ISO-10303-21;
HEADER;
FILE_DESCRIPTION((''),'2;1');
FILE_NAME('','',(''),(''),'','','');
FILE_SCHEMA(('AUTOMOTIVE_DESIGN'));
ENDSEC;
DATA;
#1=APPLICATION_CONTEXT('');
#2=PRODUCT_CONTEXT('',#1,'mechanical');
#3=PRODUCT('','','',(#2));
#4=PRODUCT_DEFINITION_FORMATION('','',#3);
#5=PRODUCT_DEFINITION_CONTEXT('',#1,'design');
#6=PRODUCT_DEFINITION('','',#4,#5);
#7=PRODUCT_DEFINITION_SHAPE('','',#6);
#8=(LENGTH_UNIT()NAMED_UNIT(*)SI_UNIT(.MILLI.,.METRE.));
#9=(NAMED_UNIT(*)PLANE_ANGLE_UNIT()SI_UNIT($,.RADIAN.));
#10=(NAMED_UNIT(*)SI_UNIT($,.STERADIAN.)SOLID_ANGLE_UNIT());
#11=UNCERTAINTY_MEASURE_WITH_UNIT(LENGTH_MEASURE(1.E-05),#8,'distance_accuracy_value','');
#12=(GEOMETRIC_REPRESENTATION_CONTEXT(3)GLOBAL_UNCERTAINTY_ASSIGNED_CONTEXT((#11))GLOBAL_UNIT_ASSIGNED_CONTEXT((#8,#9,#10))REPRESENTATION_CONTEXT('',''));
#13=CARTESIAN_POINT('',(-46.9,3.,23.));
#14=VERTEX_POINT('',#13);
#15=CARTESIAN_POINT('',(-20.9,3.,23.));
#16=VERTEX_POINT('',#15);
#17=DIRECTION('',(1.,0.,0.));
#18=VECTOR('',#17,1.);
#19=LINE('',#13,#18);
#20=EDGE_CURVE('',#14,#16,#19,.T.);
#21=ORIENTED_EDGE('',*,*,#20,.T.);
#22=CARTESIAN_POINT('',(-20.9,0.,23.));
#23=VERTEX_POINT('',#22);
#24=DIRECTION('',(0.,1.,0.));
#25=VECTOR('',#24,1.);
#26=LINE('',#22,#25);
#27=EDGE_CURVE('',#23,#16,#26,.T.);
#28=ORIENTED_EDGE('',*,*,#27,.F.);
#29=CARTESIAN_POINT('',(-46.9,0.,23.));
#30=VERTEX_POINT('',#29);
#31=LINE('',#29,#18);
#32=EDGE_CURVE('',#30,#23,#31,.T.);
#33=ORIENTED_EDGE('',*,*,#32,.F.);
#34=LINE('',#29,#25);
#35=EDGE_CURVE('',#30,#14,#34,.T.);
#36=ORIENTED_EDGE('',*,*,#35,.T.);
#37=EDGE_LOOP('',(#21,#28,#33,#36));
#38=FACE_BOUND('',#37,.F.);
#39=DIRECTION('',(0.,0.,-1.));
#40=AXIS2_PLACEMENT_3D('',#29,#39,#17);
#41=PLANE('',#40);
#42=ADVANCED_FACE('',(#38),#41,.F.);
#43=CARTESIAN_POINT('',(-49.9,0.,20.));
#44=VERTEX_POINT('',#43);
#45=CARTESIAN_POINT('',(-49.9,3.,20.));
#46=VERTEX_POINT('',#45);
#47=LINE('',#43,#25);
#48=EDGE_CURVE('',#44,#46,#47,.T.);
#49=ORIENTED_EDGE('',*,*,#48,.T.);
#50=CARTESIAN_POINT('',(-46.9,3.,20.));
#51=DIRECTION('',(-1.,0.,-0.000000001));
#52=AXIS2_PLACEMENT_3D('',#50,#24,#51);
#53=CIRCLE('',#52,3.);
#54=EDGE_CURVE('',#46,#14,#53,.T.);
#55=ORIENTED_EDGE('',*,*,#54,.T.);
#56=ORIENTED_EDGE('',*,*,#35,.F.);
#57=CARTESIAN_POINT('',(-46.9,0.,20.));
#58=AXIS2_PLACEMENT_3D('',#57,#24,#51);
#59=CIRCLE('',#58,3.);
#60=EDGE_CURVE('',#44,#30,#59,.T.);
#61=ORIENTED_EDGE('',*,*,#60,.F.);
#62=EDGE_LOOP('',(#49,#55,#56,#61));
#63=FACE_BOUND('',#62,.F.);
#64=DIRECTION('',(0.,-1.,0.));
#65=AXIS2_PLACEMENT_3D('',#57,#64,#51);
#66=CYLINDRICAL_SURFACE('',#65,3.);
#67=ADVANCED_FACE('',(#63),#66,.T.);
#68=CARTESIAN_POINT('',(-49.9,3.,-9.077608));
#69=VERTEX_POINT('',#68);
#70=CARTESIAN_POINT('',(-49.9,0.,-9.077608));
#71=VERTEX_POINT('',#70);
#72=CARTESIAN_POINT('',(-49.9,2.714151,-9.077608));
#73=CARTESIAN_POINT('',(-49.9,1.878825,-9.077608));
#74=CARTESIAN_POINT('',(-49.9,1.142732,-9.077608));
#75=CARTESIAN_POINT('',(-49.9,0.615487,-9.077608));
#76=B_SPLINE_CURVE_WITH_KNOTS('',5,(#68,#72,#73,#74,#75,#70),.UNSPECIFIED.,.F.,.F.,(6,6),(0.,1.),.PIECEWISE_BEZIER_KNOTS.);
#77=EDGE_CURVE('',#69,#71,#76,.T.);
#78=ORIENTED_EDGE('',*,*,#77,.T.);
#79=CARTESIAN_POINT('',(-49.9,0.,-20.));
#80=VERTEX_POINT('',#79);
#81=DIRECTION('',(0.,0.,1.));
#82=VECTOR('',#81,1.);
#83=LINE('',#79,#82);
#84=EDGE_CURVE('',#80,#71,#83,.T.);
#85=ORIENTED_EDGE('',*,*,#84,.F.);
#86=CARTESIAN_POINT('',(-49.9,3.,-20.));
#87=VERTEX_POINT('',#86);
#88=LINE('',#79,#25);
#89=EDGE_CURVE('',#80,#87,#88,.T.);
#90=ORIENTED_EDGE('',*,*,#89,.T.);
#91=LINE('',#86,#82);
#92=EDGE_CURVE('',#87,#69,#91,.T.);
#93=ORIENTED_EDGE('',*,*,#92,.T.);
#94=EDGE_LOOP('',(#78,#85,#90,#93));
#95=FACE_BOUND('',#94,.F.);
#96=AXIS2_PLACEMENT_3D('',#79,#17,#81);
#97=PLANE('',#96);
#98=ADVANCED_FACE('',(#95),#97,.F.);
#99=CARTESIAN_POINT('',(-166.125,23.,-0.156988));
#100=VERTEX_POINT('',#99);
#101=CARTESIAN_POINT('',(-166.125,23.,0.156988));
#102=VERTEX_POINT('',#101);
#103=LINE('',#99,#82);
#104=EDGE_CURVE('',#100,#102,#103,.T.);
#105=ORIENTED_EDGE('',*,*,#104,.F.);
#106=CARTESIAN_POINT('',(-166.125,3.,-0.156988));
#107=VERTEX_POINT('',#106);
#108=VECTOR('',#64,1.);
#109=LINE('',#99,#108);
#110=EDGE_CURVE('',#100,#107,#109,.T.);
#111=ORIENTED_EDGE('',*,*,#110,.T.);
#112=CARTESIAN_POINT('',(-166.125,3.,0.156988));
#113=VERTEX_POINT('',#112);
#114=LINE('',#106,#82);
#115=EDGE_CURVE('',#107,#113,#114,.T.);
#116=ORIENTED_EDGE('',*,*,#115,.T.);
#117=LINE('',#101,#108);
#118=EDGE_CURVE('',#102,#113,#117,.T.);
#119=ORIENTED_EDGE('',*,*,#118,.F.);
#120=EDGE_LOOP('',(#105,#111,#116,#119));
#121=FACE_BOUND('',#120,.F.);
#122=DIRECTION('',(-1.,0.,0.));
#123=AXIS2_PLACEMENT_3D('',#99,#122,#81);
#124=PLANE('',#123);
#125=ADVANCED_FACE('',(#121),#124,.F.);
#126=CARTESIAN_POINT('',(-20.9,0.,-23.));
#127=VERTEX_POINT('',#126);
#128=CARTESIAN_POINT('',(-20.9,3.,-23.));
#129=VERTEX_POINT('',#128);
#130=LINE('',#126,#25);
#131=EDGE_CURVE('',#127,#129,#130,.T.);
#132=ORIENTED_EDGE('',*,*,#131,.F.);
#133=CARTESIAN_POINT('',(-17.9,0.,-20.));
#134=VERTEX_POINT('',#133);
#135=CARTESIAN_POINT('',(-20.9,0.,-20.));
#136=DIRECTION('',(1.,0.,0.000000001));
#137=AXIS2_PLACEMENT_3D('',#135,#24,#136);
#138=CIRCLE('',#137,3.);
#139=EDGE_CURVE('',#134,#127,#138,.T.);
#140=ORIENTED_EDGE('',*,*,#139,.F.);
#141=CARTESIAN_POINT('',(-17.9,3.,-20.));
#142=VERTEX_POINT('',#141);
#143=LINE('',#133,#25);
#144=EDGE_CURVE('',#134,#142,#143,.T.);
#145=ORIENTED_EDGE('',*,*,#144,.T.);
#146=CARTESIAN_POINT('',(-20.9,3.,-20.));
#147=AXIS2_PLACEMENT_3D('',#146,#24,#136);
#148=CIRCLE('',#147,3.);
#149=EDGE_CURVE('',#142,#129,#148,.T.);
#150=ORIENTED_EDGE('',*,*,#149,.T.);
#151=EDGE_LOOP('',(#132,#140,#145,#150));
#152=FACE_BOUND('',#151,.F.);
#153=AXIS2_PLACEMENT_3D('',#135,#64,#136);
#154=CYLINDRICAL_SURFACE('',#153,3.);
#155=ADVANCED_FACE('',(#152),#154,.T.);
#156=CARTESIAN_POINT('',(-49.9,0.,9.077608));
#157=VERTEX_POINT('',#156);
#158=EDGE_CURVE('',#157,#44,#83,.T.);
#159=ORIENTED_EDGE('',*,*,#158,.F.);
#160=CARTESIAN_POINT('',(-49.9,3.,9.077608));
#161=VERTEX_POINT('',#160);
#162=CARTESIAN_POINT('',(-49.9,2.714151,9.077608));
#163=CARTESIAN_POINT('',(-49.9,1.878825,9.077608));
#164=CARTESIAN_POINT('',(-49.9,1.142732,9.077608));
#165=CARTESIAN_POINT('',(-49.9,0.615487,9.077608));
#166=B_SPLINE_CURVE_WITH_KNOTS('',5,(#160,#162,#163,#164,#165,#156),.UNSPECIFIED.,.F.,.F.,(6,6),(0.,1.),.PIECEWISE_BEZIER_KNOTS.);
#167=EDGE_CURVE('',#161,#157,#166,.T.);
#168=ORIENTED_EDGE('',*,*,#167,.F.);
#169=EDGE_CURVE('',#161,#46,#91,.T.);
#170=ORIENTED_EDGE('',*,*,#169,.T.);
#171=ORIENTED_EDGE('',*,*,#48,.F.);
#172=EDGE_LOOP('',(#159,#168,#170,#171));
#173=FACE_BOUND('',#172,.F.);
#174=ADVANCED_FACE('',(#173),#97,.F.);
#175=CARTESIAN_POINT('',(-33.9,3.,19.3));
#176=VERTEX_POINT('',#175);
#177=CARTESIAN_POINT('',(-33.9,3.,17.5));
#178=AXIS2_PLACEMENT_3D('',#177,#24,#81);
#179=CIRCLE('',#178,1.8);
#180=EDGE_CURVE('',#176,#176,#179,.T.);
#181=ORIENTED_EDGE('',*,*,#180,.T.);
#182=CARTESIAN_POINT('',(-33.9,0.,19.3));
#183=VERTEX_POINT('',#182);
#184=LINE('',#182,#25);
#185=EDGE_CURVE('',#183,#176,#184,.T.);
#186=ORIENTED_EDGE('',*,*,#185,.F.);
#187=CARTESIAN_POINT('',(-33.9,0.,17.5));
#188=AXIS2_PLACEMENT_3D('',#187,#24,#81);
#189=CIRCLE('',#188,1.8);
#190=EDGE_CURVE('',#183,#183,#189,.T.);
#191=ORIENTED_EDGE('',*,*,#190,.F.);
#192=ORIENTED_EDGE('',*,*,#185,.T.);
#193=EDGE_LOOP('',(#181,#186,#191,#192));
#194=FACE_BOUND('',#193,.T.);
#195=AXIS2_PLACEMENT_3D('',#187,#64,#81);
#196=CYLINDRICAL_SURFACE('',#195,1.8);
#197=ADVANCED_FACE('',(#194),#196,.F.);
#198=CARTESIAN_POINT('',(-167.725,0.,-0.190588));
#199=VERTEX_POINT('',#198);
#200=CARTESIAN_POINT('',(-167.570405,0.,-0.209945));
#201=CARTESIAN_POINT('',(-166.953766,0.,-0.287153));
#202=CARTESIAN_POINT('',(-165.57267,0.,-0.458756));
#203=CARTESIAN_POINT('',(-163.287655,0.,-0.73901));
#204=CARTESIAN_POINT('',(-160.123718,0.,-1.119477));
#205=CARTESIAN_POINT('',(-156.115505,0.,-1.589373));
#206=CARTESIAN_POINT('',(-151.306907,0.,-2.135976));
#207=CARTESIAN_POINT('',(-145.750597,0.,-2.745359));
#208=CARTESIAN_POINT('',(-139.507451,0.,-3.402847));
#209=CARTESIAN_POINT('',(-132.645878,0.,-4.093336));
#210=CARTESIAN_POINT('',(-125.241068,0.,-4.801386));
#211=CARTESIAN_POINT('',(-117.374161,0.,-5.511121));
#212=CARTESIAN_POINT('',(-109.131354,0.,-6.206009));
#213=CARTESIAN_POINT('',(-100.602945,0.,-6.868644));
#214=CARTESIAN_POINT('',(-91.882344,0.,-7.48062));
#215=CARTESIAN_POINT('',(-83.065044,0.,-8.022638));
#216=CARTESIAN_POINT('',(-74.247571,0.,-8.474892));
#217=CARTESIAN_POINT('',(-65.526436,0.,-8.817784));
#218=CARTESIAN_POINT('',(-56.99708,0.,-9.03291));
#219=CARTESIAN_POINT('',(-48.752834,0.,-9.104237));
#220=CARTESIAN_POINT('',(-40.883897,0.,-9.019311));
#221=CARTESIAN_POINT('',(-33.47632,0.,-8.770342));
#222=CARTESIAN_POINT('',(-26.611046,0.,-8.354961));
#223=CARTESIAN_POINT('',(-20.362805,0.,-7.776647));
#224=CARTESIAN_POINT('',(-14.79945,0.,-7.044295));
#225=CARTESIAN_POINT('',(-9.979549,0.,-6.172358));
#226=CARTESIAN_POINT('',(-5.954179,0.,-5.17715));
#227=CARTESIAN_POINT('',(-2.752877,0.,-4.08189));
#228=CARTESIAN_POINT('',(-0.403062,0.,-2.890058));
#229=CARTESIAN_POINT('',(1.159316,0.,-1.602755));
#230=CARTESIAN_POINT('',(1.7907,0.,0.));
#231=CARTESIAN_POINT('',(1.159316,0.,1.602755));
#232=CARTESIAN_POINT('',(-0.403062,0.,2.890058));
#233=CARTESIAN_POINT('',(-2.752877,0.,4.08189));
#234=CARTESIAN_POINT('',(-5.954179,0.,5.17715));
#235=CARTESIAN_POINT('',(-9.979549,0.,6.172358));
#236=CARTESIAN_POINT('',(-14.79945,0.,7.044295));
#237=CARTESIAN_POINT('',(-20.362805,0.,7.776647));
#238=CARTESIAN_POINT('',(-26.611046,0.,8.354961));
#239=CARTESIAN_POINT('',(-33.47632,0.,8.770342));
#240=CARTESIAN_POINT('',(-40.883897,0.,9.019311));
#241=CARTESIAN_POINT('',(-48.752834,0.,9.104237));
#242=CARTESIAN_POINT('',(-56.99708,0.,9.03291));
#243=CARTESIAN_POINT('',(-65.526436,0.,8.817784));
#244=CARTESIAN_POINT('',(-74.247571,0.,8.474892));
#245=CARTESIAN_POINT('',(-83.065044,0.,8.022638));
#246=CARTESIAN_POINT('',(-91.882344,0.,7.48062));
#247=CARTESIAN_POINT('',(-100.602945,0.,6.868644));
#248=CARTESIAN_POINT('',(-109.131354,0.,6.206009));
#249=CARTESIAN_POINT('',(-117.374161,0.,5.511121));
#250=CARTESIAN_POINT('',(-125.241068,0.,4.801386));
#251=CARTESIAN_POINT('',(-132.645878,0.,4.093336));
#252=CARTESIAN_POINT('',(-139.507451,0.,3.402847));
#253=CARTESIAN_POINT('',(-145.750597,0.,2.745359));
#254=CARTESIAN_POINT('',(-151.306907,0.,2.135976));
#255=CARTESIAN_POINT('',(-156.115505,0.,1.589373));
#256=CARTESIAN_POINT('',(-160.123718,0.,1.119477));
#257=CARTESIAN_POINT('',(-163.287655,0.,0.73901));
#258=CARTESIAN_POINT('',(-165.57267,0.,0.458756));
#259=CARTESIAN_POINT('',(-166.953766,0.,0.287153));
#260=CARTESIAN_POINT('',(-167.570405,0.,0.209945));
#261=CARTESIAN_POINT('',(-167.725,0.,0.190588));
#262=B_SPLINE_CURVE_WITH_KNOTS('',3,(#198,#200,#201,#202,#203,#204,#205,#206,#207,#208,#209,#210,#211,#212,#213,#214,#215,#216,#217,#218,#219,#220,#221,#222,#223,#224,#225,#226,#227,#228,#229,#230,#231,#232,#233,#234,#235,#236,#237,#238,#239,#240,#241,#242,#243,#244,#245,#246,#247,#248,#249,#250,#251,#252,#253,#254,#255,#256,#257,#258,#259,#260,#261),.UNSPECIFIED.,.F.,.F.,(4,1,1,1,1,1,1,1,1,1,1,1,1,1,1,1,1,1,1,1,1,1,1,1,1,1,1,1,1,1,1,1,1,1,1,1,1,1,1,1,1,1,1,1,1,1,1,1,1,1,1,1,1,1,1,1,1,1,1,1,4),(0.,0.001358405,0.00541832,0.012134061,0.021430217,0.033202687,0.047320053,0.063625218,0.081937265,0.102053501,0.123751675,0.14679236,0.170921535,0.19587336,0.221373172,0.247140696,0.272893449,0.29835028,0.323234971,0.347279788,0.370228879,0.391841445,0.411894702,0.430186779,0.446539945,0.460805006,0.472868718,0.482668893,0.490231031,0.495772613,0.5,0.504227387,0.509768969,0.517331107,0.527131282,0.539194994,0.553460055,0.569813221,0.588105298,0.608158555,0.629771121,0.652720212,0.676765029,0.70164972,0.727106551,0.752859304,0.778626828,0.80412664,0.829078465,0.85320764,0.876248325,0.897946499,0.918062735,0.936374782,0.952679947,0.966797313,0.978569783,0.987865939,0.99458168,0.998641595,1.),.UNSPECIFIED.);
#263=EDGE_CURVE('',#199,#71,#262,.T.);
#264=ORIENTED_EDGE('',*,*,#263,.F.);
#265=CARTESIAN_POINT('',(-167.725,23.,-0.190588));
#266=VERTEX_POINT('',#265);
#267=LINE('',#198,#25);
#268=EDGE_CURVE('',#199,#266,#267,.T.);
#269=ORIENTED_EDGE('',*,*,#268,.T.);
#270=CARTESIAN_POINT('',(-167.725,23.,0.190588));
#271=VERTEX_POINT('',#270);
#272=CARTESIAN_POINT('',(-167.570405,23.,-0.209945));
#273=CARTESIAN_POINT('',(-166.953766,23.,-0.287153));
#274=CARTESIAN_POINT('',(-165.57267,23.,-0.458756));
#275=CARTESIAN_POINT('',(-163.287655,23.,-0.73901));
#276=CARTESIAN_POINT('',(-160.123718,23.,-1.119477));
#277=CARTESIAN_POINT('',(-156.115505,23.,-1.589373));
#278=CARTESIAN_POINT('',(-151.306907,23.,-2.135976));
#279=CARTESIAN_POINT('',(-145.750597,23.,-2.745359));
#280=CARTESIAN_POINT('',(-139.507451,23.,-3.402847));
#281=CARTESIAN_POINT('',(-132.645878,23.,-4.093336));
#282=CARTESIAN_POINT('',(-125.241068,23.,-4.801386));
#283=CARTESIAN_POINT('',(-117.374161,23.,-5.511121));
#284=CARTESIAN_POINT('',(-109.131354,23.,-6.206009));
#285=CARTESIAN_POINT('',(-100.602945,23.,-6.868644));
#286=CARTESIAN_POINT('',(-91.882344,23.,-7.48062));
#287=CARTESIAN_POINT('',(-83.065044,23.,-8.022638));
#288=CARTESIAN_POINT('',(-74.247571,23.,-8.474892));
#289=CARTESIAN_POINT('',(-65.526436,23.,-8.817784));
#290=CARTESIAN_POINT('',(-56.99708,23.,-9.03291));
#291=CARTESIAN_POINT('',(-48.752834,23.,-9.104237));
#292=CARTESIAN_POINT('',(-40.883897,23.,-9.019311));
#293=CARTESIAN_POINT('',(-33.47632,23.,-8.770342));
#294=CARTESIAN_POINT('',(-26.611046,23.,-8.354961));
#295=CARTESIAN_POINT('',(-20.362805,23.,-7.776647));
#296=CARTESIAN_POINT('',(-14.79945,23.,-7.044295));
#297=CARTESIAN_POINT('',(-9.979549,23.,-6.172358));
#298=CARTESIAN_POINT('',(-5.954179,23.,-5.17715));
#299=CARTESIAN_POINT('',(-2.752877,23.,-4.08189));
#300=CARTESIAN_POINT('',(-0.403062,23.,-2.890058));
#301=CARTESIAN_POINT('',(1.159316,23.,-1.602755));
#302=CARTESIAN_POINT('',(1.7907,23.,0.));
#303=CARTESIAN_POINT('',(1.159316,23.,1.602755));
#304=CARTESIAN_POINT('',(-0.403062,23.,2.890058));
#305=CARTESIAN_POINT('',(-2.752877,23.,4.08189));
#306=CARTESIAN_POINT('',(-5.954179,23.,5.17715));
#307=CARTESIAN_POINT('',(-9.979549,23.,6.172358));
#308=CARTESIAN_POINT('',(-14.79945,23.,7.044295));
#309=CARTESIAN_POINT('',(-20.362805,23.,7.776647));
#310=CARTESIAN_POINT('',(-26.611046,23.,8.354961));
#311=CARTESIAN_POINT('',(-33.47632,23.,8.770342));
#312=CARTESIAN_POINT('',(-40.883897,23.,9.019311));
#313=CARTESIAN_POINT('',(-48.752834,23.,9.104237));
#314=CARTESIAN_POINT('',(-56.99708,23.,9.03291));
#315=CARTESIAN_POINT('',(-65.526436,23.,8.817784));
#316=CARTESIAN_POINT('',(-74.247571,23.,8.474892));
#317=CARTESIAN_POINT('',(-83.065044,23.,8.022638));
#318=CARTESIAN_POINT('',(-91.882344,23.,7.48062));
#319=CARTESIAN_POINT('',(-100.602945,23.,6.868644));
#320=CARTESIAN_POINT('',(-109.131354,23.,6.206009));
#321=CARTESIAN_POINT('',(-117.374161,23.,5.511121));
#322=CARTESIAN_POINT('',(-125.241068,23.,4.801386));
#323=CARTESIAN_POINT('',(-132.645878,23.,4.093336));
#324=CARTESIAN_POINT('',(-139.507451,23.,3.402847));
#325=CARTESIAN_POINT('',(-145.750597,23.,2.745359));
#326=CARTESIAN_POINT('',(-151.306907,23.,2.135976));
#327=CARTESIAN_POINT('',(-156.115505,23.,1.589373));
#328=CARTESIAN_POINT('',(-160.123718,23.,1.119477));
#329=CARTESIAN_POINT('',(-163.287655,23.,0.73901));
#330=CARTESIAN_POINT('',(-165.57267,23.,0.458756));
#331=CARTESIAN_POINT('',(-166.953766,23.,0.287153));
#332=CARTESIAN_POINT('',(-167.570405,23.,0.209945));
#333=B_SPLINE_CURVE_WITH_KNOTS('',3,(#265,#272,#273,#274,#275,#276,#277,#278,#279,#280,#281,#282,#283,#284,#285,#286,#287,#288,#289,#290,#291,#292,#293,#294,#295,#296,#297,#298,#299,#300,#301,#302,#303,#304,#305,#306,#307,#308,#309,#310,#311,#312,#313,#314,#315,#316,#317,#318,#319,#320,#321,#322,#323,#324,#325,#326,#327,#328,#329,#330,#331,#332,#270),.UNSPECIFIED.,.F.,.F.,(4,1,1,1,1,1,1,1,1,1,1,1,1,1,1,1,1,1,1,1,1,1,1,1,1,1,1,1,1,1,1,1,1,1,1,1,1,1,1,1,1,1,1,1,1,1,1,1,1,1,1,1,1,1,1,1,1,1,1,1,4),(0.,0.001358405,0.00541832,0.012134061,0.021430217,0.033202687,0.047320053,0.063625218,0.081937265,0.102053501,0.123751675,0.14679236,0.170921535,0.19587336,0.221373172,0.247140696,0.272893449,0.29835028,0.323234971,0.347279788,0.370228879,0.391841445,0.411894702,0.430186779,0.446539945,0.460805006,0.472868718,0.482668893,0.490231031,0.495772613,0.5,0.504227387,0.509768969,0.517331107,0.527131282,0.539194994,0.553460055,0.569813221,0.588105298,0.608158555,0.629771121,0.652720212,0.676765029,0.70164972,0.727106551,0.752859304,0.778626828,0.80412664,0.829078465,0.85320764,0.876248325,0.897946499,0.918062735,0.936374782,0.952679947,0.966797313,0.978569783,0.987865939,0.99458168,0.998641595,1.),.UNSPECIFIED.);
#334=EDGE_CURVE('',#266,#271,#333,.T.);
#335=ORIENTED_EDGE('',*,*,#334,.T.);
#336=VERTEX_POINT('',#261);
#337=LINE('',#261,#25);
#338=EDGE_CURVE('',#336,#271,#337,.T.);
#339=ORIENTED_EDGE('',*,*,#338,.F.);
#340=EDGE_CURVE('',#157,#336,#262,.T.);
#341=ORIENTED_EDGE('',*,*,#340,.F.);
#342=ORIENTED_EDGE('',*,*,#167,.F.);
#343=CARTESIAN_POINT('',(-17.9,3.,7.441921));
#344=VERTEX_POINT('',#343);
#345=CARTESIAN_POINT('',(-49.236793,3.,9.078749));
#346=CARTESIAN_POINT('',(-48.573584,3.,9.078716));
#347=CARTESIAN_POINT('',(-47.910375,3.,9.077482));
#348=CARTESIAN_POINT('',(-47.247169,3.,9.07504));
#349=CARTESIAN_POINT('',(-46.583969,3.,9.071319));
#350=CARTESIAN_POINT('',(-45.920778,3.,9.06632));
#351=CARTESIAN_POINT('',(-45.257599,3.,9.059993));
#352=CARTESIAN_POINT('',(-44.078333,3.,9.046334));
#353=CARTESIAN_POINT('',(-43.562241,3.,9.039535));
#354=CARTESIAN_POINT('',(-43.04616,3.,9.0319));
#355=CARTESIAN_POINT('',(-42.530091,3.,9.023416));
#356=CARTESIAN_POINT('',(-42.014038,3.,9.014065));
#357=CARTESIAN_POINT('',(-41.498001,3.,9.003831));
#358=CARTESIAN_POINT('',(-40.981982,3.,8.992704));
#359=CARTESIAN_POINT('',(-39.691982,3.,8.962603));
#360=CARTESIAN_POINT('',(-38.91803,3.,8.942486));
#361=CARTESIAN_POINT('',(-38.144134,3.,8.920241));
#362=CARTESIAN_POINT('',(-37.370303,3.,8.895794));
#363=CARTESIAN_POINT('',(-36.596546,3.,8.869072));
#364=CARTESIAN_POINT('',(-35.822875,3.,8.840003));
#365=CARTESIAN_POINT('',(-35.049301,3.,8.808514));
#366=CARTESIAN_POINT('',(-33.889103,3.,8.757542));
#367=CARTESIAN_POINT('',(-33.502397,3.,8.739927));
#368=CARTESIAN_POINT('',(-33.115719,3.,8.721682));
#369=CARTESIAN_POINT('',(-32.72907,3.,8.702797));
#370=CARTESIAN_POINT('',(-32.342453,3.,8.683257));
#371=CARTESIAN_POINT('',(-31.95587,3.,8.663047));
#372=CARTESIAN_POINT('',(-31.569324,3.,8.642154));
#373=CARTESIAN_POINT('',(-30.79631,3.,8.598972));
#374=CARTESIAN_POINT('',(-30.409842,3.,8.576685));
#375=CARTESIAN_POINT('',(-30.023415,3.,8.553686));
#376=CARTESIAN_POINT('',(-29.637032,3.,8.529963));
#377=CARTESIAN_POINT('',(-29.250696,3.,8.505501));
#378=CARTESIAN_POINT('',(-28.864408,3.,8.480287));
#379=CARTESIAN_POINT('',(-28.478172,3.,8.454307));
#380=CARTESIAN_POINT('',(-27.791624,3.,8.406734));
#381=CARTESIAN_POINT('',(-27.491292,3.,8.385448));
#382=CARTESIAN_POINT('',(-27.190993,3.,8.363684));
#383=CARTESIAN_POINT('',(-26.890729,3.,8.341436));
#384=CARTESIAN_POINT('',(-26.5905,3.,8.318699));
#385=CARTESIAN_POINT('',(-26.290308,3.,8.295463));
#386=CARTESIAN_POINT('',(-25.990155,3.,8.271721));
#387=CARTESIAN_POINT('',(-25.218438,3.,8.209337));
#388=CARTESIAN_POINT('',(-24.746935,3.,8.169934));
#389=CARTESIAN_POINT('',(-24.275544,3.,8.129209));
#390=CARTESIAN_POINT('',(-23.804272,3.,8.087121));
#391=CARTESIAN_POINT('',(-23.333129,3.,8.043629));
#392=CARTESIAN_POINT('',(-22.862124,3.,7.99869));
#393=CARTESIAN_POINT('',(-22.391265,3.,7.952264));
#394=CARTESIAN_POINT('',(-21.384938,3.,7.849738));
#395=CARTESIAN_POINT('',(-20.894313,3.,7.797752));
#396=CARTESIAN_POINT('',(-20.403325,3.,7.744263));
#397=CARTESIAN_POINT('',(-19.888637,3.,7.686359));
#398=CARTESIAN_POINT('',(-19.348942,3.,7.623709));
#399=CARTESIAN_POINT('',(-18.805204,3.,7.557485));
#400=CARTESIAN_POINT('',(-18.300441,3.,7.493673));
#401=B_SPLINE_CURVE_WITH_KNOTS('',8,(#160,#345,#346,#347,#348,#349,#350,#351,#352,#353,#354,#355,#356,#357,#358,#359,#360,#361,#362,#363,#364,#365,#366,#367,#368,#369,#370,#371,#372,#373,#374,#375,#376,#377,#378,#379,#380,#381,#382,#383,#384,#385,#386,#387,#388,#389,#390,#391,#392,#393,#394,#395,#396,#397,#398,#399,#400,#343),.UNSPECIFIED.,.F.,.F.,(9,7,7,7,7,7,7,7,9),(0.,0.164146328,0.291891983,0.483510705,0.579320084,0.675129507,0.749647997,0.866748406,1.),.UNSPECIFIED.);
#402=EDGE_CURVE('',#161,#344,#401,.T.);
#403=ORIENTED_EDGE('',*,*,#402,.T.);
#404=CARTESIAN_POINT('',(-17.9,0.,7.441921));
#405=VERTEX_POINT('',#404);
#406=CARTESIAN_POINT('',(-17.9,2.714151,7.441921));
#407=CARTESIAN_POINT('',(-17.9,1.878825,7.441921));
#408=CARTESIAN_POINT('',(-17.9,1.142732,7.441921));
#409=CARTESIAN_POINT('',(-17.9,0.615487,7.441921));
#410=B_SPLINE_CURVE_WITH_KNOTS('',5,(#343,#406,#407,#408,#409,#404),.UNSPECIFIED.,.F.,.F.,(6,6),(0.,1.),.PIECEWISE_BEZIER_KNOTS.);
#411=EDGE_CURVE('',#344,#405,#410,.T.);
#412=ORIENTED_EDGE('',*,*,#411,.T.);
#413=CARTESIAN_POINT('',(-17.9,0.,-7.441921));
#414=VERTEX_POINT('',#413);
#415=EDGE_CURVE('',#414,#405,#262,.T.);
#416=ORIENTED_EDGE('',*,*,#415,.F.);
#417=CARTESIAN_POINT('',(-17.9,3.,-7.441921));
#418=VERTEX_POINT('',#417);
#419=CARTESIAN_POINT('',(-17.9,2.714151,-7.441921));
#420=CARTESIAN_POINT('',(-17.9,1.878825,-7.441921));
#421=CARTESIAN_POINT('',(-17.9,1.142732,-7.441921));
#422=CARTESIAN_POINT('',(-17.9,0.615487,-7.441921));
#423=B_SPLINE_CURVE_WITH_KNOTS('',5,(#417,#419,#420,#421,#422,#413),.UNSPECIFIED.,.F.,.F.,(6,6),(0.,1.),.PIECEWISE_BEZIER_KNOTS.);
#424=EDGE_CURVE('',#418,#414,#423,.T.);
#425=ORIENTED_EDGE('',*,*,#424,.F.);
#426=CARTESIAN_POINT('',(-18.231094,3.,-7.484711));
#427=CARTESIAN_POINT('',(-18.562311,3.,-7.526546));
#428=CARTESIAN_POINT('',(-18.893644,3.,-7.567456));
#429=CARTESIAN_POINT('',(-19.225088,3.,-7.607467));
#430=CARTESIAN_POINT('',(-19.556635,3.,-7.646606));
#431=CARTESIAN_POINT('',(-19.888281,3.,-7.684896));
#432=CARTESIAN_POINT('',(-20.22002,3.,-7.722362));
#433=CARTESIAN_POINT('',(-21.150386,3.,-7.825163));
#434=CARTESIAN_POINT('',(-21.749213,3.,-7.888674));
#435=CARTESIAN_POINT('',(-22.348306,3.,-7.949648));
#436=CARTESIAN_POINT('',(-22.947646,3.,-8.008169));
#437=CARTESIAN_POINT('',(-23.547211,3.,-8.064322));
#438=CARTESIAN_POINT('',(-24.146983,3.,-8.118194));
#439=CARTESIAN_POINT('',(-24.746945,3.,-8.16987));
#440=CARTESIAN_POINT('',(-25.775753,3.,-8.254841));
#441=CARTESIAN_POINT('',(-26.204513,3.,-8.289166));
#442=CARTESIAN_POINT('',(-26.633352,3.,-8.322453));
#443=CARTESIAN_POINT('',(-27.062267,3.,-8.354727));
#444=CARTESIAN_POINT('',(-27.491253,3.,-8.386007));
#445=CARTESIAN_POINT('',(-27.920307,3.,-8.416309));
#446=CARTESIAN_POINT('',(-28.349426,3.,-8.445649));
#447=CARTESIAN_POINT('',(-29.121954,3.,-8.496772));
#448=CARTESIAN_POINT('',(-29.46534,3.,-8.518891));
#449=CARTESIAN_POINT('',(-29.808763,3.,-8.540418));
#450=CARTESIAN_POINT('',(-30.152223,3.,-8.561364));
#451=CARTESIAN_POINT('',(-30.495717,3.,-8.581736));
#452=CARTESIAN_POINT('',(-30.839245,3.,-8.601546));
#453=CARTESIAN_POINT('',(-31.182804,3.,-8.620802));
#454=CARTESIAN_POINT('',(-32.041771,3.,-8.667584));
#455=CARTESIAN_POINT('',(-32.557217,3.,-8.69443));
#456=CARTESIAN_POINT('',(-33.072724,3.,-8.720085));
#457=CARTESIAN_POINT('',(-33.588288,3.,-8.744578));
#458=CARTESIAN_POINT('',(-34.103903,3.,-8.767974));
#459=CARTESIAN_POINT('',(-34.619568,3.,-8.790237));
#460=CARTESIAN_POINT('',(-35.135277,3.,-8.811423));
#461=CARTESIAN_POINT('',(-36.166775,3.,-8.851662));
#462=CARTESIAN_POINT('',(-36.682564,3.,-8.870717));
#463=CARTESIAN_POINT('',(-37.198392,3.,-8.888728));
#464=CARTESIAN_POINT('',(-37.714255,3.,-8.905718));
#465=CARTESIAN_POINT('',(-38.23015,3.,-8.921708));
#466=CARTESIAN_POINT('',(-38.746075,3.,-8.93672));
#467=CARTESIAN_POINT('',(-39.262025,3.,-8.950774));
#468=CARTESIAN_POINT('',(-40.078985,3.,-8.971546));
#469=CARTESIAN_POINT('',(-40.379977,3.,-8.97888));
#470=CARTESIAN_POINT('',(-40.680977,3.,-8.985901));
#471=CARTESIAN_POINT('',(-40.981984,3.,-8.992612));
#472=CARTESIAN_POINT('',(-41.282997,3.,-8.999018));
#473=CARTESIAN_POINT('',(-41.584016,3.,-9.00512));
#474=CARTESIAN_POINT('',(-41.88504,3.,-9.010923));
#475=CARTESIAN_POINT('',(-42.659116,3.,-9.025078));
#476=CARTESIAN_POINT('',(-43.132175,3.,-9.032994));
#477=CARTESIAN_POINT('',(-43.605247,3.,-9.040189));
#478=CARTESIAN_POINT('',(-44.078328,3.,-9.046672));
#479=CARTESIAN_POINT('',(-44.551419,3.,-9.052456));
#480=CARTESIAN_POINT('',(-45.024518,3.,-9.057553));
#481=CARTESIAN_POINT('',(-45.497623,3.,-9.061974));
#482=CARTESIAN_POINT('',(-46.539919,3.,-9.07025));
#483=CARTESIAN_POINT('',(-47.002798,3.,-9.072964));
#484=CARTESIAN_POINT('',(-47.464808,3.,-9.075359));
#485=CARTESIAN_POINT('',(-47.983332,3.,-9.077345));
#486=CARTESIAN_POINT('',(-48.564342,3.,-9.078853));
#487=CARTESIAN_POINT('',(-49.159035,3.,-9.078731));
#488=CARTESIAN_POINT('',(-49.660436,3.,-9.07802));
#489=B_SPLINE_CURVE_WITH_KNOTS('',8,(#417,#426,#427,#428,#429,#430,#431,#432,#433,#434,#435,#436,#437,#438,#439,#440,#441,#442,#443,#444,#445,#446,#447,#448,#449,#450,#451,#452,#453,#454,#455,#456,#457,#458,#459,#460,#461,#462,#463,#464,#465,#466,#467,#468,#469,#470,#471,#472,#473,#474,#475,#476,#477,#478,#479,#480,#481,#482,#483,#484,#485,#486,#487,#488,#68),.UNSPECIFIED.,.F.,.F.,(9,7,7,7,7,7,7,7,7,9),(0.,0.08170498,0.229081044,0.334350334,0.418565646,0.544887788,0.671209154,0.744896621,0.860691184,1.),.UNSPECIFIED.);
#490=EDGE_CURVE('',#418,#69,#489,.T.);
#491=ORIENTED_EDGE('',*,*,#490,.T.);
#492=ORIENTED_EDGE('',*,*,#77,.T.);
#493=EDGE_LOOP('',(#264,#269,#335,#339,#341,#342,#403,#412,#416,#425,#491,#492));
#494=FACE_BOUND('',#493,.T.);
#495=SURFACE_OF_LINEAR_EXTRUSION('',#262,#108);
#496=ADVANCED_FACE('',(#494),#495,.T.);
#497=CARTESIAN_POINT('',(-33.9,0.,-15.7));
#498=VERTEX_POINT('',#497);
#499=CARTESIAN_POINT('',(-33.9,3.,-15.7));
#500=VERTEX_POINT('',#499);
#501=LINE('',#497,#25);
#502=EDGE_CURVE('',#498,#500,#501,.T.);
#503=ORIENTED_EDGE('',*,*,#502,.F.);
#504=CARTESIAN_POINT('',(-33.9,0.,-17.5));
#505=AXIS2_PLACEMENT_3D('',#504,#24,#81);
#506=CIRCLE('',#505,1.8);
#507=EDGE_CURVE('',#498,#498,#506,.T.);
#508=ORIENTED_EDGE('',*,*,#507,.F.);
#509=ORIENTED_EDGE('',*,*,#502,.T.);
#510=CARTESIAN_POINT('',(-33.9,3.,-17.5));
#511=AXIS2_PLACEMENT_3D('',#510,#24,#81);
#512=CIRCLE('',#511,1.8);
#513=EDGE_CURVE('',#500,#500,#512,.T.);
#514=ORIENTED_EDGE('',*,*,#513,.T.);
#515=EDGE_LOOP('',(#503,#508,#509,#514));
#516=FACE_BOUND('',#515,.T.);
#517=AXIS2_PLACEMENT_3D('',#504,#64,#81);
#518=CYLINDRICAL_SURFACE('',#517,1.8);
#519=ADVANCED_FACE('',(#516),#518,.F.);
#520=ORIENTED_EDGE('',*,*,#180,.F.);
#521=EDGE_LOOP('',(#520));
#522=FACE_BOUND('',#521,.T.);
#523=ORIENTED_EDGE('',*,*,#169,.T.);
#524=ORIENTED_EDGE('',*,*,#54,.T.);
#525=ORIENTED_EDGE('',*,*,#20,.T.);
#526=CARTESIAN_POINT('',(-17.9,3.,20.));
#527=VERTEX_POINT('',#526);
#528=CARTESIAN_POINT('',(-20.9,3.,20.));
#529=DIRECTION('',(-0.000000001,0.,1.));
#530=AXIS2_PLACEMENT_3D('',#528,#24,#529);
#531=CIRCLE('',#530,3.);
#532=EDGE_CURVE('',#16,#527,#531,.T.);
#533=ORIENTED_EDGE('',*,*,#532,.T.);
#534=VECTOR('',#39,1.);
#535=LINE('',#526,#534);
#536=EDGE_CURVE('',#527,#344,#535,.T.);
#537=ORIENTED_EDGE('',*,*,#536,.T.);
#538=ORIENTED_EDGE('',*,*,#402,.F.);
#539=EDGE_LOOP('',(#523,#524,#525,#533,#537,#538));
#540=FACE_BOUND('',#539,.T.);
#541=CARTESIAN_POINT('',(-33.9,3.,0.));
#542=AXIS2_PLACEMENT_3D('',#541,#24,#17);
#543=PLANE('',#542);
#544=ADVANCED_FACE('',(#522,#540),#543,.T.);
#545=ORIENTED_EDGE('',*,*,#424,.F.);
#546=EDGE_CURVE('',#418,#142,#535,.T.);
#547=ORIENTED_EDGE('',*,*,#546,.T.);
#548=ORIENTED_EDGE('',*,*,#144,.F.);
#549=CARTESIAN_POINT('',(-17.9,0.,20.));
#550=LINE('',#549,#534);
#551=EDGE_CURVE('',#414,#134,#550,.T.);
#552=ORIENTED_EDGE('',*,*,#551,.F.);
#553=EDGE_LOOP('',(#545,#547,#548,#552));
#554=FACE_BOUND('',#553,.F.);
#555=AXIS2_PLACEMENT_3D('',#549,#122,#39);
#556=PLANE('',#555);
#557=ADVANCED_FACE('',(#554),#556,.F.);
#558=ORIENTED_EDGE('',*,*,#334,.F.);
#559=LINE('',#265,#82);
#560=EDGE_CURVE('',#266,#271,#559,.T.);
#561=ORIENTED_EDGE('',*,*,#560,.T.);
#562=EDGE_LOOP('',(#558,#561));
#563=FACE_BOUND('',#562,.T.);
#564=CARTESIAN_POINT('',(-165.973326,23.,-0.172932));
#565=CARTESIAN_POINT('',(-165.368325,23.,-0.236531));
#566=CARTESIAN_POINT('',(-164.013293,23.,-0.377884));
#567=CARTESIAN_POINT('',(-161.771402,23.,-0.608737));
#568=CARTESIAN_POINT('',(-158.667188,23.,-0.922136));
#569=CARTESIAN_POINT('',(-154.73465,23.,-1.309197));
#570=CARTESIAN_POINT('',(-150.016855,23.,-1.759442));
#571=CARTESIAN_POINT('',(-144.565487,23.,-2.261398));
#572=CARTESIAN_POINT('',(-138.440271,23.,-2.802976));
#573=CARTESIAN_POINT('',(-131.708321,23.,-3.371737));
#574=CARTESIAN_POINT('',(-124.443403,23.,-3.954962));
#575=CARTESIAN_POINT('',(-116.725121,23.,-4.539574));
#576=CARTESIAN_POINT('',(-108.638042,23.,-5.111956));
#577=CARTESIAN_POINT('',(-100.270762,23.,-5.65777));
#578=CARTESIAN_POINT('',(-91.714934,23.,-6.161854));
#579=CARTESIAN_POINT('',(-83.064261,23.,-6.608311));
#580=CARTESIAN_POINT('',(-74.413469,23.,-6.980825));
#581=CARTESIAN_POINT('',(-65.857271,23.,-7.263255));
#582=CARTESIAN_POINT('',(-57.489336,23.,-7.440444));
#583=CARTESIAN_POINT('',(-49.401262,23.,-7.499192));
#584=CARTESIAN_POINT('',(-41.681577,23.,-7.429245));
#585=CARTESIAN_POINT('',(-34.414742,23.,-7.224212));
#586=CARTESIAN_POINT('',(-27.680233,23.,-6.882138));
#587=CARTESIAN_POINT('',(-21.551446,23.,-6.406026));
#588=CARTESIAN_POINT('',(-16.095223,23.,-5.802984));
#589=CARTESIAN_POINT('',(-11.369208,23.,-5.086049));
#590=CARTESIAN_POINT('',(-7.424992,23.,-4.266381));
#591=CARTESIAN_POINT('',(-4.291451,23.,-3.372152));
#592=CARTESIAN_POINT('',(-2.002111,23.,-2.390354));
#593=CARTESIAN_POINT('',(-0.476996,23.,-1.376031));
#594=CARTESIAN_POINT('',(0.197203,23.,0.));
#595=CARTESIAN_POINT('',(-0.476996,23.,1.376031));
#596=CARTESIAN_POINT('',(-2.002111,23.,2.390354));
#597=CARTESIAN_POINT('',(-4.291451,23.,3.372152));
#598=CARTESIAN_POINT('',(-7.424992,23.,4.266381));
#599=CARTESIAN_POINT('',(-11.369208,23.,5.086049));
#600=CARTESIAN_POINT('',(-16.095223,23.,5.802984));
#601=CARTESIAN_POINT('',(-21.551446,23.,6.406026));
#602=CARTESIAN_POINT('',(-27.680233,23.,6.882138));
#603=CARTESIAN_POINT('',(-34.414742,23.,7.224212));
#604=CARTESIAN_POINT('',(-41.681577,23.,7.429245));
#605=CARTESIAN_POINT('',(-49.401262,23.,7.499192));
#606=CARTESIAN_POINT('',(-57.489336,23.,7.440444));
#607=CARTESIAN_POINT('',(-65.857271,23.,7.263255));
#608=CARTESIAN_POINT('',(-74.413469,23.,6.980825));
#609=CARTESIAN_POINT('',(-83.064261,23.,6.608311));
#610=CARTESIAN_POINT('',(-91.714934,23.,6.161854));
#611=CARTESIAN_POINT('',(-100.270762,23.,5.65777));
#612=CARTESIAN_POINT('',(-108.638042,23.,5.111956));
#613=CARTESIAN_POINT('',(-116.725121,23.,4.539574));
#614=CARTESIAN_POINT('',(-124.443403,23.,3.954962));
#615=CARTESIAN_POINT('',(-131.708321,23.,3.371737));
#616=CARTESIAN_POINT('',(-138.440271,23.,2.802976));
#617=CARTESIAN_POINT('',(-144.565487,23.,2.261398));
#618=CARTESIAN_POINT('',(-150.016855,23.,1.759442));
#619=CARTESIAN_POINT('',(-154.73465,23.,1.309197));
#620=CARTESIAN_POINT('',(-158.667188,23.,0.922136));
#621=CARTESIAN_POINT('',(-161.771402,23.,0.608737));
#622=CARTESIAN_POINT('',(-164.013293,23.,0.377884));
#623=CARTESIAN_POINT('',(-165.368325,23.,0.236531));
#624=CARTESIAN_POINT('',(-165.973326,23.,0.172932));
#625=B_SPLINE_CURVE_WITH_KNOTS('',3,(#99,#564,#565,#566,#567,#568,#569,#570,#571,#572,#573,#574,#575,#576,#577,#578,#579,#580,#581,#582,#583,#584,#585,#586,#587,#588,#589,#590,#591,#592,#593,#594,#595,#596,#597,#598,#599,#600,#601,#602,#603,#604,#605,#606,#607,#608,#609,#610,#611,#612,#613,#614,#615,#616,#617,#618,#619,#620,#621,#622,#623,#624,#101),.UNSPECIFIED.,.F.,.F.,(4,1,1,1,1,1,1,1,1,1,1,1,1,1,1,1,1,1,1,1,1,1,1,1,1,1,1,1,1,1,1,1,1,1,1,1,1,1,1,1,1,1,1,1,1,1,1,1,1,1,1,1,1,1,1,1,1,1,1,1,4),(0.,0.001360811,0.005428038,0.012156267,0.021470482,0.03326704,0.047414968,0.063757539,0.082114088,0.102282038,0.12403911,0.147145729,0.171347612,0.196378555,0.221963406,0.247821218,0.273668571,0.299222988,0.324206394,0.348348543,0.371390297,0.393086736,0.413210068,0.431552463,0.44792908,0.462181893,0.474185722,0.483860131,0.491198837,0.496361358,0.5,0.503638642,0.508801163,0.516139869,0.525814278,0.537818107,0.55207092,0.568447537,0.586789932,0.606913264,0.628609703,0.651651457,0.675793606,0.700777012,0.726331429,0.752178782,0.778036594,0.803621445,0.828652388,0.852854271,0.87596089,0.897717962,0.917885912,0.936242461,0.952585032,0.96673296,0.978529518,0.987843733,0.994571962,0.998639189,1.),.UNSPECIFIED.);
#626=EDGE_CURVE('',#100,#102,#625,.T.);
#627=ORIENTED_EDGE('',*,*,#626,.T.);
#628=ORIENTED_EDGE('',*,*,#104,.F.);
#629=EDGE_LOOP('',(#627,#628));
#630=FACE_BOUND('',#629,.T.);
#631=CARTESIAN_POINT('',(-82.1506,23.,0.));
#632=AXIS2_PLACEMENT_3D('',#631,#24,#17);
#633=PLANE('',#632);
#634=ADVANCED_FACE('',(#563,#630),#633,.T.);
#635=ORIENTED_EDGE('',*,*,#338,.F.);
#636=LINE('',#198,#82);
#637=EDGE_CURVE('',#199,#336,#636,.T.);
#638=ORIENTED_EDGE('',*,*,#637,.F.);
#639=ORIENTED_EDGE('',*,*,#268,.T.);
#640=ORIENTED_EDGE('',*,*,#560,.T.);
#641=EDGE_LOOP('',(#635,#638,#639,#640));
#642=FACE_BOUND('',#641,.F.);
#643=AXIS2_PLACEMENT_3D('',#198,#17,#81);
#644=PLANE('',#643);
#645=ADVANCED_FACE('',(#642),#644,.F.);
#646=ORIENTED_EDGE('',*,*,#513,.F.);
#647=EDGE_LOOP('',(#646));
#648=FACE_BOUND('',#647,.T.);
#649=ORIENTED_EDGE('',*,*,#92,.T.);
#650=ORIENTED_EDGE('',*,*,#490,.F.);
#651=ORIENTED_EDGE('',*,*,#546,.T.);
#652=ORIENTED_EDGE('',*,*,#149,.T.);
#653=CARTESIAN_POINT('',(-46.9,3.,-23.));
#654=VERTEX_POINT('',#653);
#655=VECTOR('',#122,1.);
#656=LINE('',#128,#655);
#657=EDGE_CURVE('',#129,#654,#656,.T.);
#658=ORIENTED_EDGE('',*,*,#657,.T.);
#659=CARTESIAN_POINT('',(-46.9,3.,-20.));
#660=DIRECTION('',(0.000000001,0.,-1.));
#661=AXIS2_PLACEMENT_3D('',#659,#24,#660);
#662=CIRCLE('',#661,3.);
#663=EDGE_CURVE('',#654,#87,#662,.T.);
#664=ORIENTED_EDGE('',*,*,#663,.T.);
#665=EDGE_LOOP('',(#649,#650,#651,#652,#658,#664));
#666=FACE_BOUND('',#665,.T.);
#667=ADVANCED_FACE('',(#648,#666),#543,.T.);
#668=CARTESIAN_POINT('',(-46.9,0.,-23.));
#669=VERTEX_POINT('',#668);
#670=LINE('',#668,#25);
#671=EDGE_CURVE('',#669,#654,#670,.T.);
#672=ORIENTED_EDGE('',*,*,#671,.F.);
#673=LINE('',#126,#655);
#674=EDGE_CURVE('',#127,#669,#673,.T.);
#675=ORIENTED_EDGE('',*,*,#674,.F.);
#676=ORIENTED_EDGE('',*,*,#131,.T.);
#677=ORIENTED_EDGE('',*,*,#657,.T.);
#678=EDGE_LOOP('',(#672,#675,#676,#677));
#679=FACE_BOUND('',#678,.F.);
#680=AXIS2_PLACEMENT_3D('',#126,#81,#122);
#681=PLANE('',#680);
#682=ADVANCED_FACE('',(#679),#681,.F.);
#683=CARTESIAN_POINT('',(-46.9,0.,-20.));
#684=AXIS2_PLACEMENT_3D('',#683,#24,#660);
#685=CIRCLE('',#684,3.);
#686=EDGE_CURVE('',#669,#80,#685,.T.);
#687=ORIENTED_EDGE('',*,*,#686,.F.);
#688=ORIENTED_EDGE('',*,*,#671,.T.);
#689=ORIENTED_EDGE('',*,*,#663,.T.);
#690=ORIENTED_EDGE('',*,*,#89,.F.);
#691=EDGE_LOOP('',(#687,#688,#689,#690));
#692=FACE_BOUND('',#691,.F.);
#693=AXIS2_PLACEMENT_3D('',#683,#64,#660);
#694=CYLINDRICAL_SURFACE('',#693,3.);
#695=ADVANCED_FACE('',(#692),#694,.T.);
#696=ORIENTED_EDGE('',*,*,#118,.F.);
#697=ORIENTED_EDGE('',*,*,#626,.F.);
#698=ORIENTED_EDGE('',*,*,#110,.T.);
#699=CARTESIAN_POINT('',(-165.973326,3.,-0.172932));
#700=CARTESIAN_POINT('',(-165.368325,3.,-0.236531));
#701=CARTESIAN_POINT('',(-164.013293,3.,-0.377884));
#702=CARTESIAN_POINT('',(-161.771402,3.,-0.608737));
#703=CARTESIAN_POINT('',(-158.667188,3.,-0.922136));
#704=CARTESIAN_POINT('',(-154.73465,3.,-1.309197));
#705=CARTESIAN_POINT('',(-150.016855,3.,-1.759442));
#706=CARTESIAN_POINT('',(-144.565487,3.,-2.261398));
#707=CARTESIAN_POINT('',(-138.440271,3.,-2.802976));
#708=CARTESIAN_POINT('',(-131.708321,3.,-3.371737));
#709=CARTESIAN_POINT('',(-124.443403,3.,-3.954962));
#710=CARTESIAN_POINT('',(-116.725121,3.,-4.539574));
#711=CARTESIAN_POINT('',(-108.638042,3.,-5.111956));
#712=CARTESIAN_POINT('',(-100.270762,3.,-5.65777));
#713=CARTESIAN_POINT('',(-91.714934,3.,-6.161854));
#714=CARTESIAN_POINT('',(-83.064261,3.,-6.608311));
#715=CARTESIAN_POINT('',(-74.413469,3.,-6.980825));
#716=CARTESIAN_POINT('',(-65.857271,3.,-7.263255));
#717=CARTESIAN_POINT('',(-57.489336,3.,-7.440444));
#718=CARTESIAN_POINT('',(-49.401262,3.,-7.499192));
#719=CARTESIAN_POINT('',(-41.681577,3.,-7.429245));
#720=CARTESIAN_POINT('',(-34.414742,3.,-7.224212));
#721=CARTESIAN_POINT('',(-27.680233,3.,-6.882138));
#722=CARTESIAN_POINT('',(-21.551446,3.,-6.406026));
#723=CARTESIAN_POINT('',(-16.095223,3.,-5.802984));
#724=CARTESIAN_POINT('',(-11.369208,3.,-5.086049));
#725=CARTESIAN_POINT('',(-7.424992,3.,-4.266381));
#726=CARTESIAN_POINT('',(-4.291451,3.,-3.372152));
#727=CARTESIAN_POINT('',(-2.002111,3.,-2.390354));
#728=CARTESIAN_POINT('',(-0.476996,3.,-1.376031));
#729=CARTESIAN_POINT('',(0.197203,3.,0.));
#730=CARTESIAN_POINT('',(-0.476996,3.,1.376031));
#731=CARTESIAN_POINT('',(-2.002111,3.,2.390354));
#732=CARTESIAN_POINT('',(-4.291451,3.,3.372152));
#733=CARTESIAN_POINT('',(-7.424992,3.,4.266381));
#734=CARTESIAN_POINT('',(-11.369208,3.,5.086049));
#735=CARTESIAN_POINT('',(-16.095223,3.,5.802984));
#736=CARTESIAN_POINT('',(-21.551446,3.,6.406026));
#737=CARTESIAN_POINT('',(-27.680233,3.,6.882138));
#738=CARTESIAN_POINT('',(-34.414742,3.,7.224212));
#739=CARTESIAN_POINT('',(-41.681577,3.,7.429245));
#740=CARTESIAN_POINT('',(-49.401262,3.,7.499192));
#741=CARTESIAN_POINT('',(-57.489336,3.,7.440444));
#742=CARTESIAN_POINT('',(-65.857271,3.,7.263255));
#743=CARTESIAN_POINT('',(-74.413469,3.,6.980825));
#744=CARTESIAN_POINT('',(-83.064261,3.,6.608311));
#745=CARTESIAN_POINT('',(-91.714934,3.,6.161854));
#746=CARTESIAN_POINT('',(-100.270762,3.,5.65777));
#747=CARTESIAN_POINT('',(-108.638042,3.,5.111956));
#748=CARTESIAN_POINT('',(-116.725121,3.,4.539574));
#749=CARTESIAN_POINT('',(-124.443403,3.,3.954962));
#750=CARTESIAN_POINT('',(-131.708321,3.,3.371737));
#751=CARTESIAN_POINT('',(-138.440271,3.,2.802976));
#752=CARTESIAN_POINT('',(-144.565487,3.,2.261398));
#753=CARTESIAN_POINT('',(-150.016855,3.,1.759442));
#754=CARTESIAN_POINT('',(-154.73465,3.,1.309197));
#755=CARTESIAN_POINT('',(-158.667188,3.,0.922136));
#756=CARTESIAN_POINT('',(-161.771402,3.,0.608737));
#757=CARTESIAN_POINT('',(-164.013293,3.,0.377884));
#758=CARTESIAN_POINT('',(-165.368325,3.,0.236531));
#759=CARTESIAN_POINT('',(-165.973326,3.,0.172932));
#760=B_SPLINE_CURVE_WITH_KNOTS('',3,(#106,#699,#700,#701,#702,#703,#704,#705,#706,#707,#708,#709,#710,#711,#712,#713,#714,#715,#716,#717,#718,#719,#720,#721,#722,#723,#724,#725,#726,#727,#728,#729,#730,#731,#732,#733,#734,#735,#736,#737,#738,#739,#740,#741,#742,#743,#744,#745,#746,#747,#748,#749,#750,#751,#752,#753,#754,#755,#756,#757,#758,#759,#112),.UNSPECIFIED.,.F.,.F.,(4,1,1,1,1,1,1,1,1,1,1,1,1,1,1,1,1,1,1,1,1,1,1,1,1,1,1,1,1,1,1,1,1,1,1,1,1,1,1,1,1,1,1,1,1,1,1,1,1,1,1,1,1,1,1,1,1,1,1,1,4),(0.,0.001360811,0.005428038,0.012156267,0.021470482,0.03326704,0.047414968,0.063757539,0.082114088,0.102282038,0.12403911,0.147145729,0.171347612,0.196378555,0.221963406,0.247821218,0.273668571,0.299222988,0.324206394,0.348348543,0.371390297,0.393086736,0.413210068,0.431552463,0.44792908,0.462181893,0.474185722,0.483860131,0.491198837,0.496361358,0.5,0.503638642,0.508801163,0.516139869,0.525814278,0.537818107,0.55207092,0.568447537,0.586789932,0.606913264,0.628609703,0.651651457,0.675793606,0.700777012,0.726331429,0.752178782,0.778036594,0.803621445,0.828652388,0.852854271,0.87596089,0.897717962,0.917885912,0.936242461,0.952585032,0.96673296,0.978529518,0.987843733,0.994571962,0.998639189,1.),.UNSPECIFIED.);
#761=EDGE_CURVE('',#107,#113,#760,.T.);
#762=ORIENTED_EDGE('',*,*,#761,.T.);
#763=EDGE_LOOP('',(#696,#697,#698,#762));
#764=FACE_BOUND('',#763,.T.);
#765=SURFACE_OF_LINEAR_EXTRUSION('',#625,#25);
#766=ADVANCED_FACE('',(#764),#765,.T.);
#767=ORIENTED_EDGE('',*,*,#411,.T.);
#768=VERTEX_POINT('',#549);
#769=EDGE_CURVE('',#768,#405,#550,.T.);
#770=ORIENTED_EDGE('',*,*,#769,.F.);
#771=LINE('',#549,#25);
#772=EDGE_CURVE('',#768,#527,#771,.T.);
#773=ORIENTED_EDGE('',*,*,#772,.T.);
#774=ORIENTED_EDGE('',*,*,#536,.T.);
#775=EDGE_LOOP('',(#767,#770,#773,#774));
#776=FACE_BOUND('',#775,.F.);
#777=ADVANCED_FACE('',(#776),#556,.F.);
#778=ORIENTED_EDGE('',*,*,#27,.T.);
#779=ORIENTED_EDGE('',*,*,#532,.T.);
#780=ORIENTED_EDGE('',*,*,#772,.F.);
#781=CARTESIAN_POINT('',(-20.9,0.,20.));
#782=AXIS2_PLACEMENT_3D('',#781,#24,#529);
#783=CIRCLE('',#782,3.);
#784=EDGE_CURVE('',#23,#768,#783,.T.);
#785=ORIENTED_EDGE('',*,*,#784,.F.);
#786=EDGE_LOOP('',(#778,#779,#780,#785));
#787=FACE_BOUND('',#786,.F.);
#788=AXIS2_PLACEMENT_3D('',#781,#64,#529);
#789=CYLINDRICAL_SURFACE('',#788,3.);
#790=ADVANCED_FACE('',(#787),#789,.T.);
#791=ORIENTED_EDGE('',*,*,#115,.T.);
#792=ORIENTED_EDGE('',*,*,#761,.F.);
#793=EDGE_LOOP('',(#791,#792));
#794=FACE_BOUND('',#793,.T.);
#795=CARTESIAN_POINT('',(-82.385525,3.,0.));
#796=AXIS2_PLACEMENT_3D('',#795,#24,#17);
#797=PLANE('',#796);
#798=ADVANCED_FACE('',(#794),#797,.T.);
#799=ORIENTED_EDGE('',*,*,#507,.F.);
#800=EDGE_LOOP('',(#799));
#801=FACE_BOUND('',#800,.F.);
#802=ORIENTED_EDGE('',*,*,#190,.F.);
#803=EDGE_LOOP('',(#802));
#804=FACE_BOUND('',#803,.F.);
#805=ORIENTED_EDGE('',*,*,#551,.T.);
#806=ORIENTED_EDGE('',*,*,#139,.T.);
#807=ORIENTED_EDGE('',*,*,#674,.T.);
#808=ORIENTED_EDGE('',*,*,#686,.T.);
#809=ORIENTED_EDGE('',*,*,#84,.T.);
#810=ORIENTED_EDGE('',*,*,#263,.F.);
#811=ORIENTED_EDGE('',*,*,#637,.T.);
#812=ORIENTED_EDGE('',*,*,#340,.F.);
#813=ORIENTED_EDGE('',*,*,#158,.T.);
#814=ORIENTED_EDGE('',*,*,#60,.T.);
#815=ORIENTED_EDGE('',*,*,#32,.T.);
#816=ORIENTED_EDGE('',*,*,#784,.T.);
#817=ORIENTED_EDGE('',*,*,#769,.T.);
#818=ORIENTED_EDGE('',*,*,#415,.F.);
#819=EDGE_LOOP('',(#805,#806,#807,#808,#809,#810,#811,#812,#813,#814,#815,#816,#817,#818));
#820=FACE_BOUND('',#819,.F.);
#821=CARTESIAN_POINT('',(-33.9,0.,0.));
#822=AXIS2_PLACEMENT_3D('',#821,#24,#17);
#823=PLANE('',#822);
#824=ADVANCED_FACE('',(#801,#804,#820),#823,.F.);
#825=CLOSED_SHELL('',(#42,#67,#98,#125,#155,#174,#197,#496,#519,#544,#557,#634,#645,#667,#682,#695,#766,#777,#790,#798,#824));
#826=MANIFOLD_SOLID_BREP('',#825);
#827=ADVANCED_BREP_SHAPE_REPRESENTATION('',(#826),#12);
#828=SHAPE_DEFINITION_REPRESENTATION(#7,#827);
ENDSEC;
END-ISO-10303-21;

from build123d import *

# Parameters (mm, degrees)
BOSS_EXTRUDE1_DEPTH = 23
BOSS_EXTRUDE2_DEPTH = 3
CUT_EXTRUDE1_DEPTH  = 20
SKETCH4_R           = 1.8
CUT_EXTRUDE2_DEPTH  = 3


with BuildPart() as part:
    # Sketch1 → Boss-Extrude1 (new body)
    with BuildSketch(Plane(origin=(0, 0, 0), x_dir=(1, 0, 0), z_dir=(0, 1, 0))):
        with BuildLine():
            Line((-167.725, 0.190588125), (-167.725, -0.190588125))
            add(Edge.make_bspline(
                [(-167.725, 0.190588125), (-167.570404846, 0.209944797), (-166.953765666, 0.287153444), (-165.572669682, 0.458755656), (-163.287655017, 0.739010388), (-160.123718034, 1.11947731), (-156.115504683, 1.589372626), (-151.306906515, 2.135975866), (-145.750597128, 2.745359221), (-139.507451331, 3.402846646), (-132.645878462, 4.093336129), (-125.241068238, 4.801386488), (-117.374161326, 5.511120515), (-109.13135356, 6.20600886), (-100.602944876, 6.868643624), (-91.88234439, 7.48062042), (-83.065043705, 8.022638187), (-74.24757073, 8.474892101), (-65.526435651, 8.817783547), (-56.997079771, 9.032909752), (-48.75283402, 9.104237197), (-40.883897372, 9.01931098), (-33.47631992, 8.7703417), (-26.611046039, 8.354960902), (-20.362804897, 7.776646701), (-14.799449756, 7.044294828), (-9.979548808, 6.172358196), (-5.95417922, 5.177149754), (-2.752877473, 4.081889531), (-0.403062268, 2.890057882), (1.15931636, 1.602755026), (1.790699794, 0), (1.15931636, -1.602755026), (-0.403062268, -2.890057882), (-2.752877473, -4.081889531), (-5.95417922, -5.177149754), (-9.979548808, -6.172358196), (-14.799449756, -7.044294828), (-20.362804897, -7.776646701), (-26.611046039, -8.354960902), (-33.47631992, -8.7703417), (-40.883897372, -9.01931098), (-48.75283402, -9.104237197), (-56.997079771, -9.032909752), (-65.526435651, -8.817783547), (-74.24757073, -8.474892101), (-83.065043705, -8.022638187), (-91.88234439, -7.48062042), (-100.602944876, -6.868643624), (-109.13135356, -6.20600886), (-117.374161326, -5.511120515), (-125.241068238, -4.801386488), (-132.645878462, -4.093336129), (-139.507451331, -3.402846646), (-145.750597128, -2.745359221), (-151.306906515, -2.135975866), (-156.115504683, -1.589372626), (-160.123718034, -1.11947731), (-163.287655017, -0.739010388), (-165.572669682, -0.458755656), (-166.953765666, -0.287153444), (-167.570404846, -0.209944797), (-167.725, -0.190588125)],
                knots=[0, 0, 0, 0, 0.001358405, 0.00541832, 0.012134061, 0.021430217, 0.033202687, 0.047320053, 0.063625218, 0.081937265, 0.102053501, 0.123751675, 0.14679236, 0.170921535, 0.19587336, 0.221373172, 0.247140696, 0.272893449, 0.29835028, 0.323234971, 0.347279788, 0.370228879, 0.391841445, 0.411894702, 0.430186779, 0.446539945, 0.460805006, 0.472868718, 0.482668893, 0.490231031, 0.495772613, 0.5, 0.504227387, 0.509768969, 0.517331107, 0.527131282, 0.539194994, 0.553460055, 0.569813221, 0.588105298, 0.608158555, 0.629771121, 0.652720212, 0.676765029, 0.70164972, 0.727106551, 0.752859304, 0.778626828, 0.80412664, 0.829078465, 0.85320764, 0.876248325, 0.897946499, 0.918062735, 0.936374782, 0.952679947, 0.966797313, 0.978569783, 0.987865939, 0.99458168, 0.998641595, 1, 1, 1, 1], degree=3))
        make_face()
    extrude(amount=BOSS_EXTRUDE1_DEPTH)

    # Sketch2 → Boss-Extrude2 (add)
    with BuildSketch(Plane(origin=(0, 0, 0), x_dir=(1, 0, 0), z_dir=(0, 1, 0))):
        with BuildLine():
            Line((-46.9, -23), (-20.9, -23))
            ThreePointArc((-20.9, -23), (-18.778679656, -22.121320344), (-17.9, -20))
            Line((-17.9, -20), (-17.9, 20))
            ThreePointArc((-17.9, 20), (-18.778679656, 22.121320344), (-20.9, 23))
            Line((-20.9, 23), (-46.9, 23))
            ThreePointArc((-46.9, 23), (-49.021320344, 22.121320344), (-49.9, 20))
            Line((-49.9, 20), (-49.9, -20))
            ThreePointArc((-49.9, -20), (-49.021320344, -22.121320344), (-46.9, -23))
        make_face()
    extrude(amount=BOSS_EXTRUDE2_DEPTH)

    # Sketch3 → Cut-Extrude1 (cut)
    with BuildSketch(Plane(origin=(0, 23, 0), x_dir=(1, 0, 0), z_dir=(0, 1, 0))):
        with BuildLine():
            Line((-166.125, 0.156988125), (-166.125, -0.156988125))
            add(Edge.make_bspline(
                [(-166.125, 0.156988125), (-165.973326037, 0.172932331), (-165.368325064, 0.236530989), (-164.013292597, 0.377884196), (-161.771401847, 0.608737032), (-158.667188494, 0.922135759), (-154.734649863, 1.309196972), (-150.016855497, 1.759441942), (-144.565487316, 2.261397922), (-138.440270772, 2.802976133), (-131.70832067, 3.371737186), (-124.443402607, 3.954962388), (-116.725120873, 4.539573791), (-108.638041586, 5.111956023), (-100.270761544, 5.657769717), (-91.714933702, 6.161854392), (-83.064260756, 6.608310901), (-74.413468596, 6.980825485), (-65.857270897, 7.263255344), (-57.489335841, 7.440444342), (-49.401262085, 7.499191705), (-41.6815774, 7.429245171), (-34.414741782, 7.224212382), (-27.680232998, 6.882137969), (-21.551445773, 6.406025549), (-16.09522307, 5.802984307), (-11.369207596, 5.086048974), (-7.424992006, 4.266381397), (-4.291451458, 3.372152429), (-2.002111001, 2.39035369), (-0.476995582, 1.376031107), (0.197203022, 0), (-0.476995582, -1.376031107), (-2.002111001, -2.39035369), (-4.291451458, -3.372152429), (-7.424992006, -4.266381397), (-11.369207596, -5.086048974), (-16.09522307, -5.802984307), (-21.551445773, -6.406025549), (-27.680232998, -6.882137969), (-34.414741782, -7.224212382), (-41.6815774, -7.429245171), (-49.401262085, -7.499191705), (-57.489335841, -7.440444342), (-65.857270897, -7.263255344), (-74.413468596, -6.980825485), (-83.064260756, -6.608310901), (-91.714933702, -6.161854392), (-100.270761544, -5.657769717), (-108.638041586, -5.111956023), (-116.725120873, -4.539573791), (-124.443402607, -3.954962388), (-131.70832067, -3.371737186), (-138.440270772, -2.802976133), (-144.565487316, -2.261397922), (-150.016855497, -1.759441942), (-154.734649863, -1.309196972), (-158.667188494, -0.922135759), (-161.771401847, -0.608737032), (-164.013292597, -0.377884196), (-165.368325064, -0.236530989), (-165.973326037, -0.172932331), (-166.125, -0.156988125)],
                knots=[0, 0, 0, 0, 0.001360811, 0.005428038, 0.012156267, 0.021470482, 0.03326704, 0.047414968, 0.063757539, 0.082114088, 0.102282038, 0.12403911, 0.147145729, 0.171347612, 0.196378555, 0.221963406, 0.247821218, 0.273668571, 0.299222988, 0.324206394, 0.348348543, 0.371390297, 0.393086736, 0.413210068, 0.431552463, 0.44792908, 0.462181893, 0.474185722, 0.483860131, 0.491198837, 0.496361358, 0.5, 0.503638642, 0.508801163, 0.516139869, 0.525814278, 0.537818107, 0.55207092, 0.568447537, 0.586789932, 0.606913264, 0.628609703, 0.651651457, 0.675793606, 0.700777012, 0.726331429, 0.752178782, 0.778036594, 0.803621445, 0.828652388, 0.852854271, 0.87596089, 0.897717962, 0.917885912, 0.936242461, 0.952585032, 0.96673296, 0.978529518, 0.987843733, 0.994571962, 0.998639189, 1, 1, 1, 1], degree=3))
        make_face()
    extrude(amount=-CUT_EXTRUDE1_DEPTH, mode=Mode.SUBTRACT)

    # Sketch4 → Cut-Extrude2 (cut)
    with BuildSketch(Plane(origin=(0, 0, 0), x_dir=(1, 0, 0), z_dir=(0, 1, 0))):
        with Locations(Location((-33.9, -17.5, 0), (0, 0, 270))):
            Circle(SKETCH4_R)
        with Locations(Location((-33.9, 17.5, 0), (0, 0, 270))):
            Circle(SKETCH4_R)
    extrude(amount=CUT_EXTRUDE2_DEPTH, mode=Mode.SUBTRACT)


solid = part.part
